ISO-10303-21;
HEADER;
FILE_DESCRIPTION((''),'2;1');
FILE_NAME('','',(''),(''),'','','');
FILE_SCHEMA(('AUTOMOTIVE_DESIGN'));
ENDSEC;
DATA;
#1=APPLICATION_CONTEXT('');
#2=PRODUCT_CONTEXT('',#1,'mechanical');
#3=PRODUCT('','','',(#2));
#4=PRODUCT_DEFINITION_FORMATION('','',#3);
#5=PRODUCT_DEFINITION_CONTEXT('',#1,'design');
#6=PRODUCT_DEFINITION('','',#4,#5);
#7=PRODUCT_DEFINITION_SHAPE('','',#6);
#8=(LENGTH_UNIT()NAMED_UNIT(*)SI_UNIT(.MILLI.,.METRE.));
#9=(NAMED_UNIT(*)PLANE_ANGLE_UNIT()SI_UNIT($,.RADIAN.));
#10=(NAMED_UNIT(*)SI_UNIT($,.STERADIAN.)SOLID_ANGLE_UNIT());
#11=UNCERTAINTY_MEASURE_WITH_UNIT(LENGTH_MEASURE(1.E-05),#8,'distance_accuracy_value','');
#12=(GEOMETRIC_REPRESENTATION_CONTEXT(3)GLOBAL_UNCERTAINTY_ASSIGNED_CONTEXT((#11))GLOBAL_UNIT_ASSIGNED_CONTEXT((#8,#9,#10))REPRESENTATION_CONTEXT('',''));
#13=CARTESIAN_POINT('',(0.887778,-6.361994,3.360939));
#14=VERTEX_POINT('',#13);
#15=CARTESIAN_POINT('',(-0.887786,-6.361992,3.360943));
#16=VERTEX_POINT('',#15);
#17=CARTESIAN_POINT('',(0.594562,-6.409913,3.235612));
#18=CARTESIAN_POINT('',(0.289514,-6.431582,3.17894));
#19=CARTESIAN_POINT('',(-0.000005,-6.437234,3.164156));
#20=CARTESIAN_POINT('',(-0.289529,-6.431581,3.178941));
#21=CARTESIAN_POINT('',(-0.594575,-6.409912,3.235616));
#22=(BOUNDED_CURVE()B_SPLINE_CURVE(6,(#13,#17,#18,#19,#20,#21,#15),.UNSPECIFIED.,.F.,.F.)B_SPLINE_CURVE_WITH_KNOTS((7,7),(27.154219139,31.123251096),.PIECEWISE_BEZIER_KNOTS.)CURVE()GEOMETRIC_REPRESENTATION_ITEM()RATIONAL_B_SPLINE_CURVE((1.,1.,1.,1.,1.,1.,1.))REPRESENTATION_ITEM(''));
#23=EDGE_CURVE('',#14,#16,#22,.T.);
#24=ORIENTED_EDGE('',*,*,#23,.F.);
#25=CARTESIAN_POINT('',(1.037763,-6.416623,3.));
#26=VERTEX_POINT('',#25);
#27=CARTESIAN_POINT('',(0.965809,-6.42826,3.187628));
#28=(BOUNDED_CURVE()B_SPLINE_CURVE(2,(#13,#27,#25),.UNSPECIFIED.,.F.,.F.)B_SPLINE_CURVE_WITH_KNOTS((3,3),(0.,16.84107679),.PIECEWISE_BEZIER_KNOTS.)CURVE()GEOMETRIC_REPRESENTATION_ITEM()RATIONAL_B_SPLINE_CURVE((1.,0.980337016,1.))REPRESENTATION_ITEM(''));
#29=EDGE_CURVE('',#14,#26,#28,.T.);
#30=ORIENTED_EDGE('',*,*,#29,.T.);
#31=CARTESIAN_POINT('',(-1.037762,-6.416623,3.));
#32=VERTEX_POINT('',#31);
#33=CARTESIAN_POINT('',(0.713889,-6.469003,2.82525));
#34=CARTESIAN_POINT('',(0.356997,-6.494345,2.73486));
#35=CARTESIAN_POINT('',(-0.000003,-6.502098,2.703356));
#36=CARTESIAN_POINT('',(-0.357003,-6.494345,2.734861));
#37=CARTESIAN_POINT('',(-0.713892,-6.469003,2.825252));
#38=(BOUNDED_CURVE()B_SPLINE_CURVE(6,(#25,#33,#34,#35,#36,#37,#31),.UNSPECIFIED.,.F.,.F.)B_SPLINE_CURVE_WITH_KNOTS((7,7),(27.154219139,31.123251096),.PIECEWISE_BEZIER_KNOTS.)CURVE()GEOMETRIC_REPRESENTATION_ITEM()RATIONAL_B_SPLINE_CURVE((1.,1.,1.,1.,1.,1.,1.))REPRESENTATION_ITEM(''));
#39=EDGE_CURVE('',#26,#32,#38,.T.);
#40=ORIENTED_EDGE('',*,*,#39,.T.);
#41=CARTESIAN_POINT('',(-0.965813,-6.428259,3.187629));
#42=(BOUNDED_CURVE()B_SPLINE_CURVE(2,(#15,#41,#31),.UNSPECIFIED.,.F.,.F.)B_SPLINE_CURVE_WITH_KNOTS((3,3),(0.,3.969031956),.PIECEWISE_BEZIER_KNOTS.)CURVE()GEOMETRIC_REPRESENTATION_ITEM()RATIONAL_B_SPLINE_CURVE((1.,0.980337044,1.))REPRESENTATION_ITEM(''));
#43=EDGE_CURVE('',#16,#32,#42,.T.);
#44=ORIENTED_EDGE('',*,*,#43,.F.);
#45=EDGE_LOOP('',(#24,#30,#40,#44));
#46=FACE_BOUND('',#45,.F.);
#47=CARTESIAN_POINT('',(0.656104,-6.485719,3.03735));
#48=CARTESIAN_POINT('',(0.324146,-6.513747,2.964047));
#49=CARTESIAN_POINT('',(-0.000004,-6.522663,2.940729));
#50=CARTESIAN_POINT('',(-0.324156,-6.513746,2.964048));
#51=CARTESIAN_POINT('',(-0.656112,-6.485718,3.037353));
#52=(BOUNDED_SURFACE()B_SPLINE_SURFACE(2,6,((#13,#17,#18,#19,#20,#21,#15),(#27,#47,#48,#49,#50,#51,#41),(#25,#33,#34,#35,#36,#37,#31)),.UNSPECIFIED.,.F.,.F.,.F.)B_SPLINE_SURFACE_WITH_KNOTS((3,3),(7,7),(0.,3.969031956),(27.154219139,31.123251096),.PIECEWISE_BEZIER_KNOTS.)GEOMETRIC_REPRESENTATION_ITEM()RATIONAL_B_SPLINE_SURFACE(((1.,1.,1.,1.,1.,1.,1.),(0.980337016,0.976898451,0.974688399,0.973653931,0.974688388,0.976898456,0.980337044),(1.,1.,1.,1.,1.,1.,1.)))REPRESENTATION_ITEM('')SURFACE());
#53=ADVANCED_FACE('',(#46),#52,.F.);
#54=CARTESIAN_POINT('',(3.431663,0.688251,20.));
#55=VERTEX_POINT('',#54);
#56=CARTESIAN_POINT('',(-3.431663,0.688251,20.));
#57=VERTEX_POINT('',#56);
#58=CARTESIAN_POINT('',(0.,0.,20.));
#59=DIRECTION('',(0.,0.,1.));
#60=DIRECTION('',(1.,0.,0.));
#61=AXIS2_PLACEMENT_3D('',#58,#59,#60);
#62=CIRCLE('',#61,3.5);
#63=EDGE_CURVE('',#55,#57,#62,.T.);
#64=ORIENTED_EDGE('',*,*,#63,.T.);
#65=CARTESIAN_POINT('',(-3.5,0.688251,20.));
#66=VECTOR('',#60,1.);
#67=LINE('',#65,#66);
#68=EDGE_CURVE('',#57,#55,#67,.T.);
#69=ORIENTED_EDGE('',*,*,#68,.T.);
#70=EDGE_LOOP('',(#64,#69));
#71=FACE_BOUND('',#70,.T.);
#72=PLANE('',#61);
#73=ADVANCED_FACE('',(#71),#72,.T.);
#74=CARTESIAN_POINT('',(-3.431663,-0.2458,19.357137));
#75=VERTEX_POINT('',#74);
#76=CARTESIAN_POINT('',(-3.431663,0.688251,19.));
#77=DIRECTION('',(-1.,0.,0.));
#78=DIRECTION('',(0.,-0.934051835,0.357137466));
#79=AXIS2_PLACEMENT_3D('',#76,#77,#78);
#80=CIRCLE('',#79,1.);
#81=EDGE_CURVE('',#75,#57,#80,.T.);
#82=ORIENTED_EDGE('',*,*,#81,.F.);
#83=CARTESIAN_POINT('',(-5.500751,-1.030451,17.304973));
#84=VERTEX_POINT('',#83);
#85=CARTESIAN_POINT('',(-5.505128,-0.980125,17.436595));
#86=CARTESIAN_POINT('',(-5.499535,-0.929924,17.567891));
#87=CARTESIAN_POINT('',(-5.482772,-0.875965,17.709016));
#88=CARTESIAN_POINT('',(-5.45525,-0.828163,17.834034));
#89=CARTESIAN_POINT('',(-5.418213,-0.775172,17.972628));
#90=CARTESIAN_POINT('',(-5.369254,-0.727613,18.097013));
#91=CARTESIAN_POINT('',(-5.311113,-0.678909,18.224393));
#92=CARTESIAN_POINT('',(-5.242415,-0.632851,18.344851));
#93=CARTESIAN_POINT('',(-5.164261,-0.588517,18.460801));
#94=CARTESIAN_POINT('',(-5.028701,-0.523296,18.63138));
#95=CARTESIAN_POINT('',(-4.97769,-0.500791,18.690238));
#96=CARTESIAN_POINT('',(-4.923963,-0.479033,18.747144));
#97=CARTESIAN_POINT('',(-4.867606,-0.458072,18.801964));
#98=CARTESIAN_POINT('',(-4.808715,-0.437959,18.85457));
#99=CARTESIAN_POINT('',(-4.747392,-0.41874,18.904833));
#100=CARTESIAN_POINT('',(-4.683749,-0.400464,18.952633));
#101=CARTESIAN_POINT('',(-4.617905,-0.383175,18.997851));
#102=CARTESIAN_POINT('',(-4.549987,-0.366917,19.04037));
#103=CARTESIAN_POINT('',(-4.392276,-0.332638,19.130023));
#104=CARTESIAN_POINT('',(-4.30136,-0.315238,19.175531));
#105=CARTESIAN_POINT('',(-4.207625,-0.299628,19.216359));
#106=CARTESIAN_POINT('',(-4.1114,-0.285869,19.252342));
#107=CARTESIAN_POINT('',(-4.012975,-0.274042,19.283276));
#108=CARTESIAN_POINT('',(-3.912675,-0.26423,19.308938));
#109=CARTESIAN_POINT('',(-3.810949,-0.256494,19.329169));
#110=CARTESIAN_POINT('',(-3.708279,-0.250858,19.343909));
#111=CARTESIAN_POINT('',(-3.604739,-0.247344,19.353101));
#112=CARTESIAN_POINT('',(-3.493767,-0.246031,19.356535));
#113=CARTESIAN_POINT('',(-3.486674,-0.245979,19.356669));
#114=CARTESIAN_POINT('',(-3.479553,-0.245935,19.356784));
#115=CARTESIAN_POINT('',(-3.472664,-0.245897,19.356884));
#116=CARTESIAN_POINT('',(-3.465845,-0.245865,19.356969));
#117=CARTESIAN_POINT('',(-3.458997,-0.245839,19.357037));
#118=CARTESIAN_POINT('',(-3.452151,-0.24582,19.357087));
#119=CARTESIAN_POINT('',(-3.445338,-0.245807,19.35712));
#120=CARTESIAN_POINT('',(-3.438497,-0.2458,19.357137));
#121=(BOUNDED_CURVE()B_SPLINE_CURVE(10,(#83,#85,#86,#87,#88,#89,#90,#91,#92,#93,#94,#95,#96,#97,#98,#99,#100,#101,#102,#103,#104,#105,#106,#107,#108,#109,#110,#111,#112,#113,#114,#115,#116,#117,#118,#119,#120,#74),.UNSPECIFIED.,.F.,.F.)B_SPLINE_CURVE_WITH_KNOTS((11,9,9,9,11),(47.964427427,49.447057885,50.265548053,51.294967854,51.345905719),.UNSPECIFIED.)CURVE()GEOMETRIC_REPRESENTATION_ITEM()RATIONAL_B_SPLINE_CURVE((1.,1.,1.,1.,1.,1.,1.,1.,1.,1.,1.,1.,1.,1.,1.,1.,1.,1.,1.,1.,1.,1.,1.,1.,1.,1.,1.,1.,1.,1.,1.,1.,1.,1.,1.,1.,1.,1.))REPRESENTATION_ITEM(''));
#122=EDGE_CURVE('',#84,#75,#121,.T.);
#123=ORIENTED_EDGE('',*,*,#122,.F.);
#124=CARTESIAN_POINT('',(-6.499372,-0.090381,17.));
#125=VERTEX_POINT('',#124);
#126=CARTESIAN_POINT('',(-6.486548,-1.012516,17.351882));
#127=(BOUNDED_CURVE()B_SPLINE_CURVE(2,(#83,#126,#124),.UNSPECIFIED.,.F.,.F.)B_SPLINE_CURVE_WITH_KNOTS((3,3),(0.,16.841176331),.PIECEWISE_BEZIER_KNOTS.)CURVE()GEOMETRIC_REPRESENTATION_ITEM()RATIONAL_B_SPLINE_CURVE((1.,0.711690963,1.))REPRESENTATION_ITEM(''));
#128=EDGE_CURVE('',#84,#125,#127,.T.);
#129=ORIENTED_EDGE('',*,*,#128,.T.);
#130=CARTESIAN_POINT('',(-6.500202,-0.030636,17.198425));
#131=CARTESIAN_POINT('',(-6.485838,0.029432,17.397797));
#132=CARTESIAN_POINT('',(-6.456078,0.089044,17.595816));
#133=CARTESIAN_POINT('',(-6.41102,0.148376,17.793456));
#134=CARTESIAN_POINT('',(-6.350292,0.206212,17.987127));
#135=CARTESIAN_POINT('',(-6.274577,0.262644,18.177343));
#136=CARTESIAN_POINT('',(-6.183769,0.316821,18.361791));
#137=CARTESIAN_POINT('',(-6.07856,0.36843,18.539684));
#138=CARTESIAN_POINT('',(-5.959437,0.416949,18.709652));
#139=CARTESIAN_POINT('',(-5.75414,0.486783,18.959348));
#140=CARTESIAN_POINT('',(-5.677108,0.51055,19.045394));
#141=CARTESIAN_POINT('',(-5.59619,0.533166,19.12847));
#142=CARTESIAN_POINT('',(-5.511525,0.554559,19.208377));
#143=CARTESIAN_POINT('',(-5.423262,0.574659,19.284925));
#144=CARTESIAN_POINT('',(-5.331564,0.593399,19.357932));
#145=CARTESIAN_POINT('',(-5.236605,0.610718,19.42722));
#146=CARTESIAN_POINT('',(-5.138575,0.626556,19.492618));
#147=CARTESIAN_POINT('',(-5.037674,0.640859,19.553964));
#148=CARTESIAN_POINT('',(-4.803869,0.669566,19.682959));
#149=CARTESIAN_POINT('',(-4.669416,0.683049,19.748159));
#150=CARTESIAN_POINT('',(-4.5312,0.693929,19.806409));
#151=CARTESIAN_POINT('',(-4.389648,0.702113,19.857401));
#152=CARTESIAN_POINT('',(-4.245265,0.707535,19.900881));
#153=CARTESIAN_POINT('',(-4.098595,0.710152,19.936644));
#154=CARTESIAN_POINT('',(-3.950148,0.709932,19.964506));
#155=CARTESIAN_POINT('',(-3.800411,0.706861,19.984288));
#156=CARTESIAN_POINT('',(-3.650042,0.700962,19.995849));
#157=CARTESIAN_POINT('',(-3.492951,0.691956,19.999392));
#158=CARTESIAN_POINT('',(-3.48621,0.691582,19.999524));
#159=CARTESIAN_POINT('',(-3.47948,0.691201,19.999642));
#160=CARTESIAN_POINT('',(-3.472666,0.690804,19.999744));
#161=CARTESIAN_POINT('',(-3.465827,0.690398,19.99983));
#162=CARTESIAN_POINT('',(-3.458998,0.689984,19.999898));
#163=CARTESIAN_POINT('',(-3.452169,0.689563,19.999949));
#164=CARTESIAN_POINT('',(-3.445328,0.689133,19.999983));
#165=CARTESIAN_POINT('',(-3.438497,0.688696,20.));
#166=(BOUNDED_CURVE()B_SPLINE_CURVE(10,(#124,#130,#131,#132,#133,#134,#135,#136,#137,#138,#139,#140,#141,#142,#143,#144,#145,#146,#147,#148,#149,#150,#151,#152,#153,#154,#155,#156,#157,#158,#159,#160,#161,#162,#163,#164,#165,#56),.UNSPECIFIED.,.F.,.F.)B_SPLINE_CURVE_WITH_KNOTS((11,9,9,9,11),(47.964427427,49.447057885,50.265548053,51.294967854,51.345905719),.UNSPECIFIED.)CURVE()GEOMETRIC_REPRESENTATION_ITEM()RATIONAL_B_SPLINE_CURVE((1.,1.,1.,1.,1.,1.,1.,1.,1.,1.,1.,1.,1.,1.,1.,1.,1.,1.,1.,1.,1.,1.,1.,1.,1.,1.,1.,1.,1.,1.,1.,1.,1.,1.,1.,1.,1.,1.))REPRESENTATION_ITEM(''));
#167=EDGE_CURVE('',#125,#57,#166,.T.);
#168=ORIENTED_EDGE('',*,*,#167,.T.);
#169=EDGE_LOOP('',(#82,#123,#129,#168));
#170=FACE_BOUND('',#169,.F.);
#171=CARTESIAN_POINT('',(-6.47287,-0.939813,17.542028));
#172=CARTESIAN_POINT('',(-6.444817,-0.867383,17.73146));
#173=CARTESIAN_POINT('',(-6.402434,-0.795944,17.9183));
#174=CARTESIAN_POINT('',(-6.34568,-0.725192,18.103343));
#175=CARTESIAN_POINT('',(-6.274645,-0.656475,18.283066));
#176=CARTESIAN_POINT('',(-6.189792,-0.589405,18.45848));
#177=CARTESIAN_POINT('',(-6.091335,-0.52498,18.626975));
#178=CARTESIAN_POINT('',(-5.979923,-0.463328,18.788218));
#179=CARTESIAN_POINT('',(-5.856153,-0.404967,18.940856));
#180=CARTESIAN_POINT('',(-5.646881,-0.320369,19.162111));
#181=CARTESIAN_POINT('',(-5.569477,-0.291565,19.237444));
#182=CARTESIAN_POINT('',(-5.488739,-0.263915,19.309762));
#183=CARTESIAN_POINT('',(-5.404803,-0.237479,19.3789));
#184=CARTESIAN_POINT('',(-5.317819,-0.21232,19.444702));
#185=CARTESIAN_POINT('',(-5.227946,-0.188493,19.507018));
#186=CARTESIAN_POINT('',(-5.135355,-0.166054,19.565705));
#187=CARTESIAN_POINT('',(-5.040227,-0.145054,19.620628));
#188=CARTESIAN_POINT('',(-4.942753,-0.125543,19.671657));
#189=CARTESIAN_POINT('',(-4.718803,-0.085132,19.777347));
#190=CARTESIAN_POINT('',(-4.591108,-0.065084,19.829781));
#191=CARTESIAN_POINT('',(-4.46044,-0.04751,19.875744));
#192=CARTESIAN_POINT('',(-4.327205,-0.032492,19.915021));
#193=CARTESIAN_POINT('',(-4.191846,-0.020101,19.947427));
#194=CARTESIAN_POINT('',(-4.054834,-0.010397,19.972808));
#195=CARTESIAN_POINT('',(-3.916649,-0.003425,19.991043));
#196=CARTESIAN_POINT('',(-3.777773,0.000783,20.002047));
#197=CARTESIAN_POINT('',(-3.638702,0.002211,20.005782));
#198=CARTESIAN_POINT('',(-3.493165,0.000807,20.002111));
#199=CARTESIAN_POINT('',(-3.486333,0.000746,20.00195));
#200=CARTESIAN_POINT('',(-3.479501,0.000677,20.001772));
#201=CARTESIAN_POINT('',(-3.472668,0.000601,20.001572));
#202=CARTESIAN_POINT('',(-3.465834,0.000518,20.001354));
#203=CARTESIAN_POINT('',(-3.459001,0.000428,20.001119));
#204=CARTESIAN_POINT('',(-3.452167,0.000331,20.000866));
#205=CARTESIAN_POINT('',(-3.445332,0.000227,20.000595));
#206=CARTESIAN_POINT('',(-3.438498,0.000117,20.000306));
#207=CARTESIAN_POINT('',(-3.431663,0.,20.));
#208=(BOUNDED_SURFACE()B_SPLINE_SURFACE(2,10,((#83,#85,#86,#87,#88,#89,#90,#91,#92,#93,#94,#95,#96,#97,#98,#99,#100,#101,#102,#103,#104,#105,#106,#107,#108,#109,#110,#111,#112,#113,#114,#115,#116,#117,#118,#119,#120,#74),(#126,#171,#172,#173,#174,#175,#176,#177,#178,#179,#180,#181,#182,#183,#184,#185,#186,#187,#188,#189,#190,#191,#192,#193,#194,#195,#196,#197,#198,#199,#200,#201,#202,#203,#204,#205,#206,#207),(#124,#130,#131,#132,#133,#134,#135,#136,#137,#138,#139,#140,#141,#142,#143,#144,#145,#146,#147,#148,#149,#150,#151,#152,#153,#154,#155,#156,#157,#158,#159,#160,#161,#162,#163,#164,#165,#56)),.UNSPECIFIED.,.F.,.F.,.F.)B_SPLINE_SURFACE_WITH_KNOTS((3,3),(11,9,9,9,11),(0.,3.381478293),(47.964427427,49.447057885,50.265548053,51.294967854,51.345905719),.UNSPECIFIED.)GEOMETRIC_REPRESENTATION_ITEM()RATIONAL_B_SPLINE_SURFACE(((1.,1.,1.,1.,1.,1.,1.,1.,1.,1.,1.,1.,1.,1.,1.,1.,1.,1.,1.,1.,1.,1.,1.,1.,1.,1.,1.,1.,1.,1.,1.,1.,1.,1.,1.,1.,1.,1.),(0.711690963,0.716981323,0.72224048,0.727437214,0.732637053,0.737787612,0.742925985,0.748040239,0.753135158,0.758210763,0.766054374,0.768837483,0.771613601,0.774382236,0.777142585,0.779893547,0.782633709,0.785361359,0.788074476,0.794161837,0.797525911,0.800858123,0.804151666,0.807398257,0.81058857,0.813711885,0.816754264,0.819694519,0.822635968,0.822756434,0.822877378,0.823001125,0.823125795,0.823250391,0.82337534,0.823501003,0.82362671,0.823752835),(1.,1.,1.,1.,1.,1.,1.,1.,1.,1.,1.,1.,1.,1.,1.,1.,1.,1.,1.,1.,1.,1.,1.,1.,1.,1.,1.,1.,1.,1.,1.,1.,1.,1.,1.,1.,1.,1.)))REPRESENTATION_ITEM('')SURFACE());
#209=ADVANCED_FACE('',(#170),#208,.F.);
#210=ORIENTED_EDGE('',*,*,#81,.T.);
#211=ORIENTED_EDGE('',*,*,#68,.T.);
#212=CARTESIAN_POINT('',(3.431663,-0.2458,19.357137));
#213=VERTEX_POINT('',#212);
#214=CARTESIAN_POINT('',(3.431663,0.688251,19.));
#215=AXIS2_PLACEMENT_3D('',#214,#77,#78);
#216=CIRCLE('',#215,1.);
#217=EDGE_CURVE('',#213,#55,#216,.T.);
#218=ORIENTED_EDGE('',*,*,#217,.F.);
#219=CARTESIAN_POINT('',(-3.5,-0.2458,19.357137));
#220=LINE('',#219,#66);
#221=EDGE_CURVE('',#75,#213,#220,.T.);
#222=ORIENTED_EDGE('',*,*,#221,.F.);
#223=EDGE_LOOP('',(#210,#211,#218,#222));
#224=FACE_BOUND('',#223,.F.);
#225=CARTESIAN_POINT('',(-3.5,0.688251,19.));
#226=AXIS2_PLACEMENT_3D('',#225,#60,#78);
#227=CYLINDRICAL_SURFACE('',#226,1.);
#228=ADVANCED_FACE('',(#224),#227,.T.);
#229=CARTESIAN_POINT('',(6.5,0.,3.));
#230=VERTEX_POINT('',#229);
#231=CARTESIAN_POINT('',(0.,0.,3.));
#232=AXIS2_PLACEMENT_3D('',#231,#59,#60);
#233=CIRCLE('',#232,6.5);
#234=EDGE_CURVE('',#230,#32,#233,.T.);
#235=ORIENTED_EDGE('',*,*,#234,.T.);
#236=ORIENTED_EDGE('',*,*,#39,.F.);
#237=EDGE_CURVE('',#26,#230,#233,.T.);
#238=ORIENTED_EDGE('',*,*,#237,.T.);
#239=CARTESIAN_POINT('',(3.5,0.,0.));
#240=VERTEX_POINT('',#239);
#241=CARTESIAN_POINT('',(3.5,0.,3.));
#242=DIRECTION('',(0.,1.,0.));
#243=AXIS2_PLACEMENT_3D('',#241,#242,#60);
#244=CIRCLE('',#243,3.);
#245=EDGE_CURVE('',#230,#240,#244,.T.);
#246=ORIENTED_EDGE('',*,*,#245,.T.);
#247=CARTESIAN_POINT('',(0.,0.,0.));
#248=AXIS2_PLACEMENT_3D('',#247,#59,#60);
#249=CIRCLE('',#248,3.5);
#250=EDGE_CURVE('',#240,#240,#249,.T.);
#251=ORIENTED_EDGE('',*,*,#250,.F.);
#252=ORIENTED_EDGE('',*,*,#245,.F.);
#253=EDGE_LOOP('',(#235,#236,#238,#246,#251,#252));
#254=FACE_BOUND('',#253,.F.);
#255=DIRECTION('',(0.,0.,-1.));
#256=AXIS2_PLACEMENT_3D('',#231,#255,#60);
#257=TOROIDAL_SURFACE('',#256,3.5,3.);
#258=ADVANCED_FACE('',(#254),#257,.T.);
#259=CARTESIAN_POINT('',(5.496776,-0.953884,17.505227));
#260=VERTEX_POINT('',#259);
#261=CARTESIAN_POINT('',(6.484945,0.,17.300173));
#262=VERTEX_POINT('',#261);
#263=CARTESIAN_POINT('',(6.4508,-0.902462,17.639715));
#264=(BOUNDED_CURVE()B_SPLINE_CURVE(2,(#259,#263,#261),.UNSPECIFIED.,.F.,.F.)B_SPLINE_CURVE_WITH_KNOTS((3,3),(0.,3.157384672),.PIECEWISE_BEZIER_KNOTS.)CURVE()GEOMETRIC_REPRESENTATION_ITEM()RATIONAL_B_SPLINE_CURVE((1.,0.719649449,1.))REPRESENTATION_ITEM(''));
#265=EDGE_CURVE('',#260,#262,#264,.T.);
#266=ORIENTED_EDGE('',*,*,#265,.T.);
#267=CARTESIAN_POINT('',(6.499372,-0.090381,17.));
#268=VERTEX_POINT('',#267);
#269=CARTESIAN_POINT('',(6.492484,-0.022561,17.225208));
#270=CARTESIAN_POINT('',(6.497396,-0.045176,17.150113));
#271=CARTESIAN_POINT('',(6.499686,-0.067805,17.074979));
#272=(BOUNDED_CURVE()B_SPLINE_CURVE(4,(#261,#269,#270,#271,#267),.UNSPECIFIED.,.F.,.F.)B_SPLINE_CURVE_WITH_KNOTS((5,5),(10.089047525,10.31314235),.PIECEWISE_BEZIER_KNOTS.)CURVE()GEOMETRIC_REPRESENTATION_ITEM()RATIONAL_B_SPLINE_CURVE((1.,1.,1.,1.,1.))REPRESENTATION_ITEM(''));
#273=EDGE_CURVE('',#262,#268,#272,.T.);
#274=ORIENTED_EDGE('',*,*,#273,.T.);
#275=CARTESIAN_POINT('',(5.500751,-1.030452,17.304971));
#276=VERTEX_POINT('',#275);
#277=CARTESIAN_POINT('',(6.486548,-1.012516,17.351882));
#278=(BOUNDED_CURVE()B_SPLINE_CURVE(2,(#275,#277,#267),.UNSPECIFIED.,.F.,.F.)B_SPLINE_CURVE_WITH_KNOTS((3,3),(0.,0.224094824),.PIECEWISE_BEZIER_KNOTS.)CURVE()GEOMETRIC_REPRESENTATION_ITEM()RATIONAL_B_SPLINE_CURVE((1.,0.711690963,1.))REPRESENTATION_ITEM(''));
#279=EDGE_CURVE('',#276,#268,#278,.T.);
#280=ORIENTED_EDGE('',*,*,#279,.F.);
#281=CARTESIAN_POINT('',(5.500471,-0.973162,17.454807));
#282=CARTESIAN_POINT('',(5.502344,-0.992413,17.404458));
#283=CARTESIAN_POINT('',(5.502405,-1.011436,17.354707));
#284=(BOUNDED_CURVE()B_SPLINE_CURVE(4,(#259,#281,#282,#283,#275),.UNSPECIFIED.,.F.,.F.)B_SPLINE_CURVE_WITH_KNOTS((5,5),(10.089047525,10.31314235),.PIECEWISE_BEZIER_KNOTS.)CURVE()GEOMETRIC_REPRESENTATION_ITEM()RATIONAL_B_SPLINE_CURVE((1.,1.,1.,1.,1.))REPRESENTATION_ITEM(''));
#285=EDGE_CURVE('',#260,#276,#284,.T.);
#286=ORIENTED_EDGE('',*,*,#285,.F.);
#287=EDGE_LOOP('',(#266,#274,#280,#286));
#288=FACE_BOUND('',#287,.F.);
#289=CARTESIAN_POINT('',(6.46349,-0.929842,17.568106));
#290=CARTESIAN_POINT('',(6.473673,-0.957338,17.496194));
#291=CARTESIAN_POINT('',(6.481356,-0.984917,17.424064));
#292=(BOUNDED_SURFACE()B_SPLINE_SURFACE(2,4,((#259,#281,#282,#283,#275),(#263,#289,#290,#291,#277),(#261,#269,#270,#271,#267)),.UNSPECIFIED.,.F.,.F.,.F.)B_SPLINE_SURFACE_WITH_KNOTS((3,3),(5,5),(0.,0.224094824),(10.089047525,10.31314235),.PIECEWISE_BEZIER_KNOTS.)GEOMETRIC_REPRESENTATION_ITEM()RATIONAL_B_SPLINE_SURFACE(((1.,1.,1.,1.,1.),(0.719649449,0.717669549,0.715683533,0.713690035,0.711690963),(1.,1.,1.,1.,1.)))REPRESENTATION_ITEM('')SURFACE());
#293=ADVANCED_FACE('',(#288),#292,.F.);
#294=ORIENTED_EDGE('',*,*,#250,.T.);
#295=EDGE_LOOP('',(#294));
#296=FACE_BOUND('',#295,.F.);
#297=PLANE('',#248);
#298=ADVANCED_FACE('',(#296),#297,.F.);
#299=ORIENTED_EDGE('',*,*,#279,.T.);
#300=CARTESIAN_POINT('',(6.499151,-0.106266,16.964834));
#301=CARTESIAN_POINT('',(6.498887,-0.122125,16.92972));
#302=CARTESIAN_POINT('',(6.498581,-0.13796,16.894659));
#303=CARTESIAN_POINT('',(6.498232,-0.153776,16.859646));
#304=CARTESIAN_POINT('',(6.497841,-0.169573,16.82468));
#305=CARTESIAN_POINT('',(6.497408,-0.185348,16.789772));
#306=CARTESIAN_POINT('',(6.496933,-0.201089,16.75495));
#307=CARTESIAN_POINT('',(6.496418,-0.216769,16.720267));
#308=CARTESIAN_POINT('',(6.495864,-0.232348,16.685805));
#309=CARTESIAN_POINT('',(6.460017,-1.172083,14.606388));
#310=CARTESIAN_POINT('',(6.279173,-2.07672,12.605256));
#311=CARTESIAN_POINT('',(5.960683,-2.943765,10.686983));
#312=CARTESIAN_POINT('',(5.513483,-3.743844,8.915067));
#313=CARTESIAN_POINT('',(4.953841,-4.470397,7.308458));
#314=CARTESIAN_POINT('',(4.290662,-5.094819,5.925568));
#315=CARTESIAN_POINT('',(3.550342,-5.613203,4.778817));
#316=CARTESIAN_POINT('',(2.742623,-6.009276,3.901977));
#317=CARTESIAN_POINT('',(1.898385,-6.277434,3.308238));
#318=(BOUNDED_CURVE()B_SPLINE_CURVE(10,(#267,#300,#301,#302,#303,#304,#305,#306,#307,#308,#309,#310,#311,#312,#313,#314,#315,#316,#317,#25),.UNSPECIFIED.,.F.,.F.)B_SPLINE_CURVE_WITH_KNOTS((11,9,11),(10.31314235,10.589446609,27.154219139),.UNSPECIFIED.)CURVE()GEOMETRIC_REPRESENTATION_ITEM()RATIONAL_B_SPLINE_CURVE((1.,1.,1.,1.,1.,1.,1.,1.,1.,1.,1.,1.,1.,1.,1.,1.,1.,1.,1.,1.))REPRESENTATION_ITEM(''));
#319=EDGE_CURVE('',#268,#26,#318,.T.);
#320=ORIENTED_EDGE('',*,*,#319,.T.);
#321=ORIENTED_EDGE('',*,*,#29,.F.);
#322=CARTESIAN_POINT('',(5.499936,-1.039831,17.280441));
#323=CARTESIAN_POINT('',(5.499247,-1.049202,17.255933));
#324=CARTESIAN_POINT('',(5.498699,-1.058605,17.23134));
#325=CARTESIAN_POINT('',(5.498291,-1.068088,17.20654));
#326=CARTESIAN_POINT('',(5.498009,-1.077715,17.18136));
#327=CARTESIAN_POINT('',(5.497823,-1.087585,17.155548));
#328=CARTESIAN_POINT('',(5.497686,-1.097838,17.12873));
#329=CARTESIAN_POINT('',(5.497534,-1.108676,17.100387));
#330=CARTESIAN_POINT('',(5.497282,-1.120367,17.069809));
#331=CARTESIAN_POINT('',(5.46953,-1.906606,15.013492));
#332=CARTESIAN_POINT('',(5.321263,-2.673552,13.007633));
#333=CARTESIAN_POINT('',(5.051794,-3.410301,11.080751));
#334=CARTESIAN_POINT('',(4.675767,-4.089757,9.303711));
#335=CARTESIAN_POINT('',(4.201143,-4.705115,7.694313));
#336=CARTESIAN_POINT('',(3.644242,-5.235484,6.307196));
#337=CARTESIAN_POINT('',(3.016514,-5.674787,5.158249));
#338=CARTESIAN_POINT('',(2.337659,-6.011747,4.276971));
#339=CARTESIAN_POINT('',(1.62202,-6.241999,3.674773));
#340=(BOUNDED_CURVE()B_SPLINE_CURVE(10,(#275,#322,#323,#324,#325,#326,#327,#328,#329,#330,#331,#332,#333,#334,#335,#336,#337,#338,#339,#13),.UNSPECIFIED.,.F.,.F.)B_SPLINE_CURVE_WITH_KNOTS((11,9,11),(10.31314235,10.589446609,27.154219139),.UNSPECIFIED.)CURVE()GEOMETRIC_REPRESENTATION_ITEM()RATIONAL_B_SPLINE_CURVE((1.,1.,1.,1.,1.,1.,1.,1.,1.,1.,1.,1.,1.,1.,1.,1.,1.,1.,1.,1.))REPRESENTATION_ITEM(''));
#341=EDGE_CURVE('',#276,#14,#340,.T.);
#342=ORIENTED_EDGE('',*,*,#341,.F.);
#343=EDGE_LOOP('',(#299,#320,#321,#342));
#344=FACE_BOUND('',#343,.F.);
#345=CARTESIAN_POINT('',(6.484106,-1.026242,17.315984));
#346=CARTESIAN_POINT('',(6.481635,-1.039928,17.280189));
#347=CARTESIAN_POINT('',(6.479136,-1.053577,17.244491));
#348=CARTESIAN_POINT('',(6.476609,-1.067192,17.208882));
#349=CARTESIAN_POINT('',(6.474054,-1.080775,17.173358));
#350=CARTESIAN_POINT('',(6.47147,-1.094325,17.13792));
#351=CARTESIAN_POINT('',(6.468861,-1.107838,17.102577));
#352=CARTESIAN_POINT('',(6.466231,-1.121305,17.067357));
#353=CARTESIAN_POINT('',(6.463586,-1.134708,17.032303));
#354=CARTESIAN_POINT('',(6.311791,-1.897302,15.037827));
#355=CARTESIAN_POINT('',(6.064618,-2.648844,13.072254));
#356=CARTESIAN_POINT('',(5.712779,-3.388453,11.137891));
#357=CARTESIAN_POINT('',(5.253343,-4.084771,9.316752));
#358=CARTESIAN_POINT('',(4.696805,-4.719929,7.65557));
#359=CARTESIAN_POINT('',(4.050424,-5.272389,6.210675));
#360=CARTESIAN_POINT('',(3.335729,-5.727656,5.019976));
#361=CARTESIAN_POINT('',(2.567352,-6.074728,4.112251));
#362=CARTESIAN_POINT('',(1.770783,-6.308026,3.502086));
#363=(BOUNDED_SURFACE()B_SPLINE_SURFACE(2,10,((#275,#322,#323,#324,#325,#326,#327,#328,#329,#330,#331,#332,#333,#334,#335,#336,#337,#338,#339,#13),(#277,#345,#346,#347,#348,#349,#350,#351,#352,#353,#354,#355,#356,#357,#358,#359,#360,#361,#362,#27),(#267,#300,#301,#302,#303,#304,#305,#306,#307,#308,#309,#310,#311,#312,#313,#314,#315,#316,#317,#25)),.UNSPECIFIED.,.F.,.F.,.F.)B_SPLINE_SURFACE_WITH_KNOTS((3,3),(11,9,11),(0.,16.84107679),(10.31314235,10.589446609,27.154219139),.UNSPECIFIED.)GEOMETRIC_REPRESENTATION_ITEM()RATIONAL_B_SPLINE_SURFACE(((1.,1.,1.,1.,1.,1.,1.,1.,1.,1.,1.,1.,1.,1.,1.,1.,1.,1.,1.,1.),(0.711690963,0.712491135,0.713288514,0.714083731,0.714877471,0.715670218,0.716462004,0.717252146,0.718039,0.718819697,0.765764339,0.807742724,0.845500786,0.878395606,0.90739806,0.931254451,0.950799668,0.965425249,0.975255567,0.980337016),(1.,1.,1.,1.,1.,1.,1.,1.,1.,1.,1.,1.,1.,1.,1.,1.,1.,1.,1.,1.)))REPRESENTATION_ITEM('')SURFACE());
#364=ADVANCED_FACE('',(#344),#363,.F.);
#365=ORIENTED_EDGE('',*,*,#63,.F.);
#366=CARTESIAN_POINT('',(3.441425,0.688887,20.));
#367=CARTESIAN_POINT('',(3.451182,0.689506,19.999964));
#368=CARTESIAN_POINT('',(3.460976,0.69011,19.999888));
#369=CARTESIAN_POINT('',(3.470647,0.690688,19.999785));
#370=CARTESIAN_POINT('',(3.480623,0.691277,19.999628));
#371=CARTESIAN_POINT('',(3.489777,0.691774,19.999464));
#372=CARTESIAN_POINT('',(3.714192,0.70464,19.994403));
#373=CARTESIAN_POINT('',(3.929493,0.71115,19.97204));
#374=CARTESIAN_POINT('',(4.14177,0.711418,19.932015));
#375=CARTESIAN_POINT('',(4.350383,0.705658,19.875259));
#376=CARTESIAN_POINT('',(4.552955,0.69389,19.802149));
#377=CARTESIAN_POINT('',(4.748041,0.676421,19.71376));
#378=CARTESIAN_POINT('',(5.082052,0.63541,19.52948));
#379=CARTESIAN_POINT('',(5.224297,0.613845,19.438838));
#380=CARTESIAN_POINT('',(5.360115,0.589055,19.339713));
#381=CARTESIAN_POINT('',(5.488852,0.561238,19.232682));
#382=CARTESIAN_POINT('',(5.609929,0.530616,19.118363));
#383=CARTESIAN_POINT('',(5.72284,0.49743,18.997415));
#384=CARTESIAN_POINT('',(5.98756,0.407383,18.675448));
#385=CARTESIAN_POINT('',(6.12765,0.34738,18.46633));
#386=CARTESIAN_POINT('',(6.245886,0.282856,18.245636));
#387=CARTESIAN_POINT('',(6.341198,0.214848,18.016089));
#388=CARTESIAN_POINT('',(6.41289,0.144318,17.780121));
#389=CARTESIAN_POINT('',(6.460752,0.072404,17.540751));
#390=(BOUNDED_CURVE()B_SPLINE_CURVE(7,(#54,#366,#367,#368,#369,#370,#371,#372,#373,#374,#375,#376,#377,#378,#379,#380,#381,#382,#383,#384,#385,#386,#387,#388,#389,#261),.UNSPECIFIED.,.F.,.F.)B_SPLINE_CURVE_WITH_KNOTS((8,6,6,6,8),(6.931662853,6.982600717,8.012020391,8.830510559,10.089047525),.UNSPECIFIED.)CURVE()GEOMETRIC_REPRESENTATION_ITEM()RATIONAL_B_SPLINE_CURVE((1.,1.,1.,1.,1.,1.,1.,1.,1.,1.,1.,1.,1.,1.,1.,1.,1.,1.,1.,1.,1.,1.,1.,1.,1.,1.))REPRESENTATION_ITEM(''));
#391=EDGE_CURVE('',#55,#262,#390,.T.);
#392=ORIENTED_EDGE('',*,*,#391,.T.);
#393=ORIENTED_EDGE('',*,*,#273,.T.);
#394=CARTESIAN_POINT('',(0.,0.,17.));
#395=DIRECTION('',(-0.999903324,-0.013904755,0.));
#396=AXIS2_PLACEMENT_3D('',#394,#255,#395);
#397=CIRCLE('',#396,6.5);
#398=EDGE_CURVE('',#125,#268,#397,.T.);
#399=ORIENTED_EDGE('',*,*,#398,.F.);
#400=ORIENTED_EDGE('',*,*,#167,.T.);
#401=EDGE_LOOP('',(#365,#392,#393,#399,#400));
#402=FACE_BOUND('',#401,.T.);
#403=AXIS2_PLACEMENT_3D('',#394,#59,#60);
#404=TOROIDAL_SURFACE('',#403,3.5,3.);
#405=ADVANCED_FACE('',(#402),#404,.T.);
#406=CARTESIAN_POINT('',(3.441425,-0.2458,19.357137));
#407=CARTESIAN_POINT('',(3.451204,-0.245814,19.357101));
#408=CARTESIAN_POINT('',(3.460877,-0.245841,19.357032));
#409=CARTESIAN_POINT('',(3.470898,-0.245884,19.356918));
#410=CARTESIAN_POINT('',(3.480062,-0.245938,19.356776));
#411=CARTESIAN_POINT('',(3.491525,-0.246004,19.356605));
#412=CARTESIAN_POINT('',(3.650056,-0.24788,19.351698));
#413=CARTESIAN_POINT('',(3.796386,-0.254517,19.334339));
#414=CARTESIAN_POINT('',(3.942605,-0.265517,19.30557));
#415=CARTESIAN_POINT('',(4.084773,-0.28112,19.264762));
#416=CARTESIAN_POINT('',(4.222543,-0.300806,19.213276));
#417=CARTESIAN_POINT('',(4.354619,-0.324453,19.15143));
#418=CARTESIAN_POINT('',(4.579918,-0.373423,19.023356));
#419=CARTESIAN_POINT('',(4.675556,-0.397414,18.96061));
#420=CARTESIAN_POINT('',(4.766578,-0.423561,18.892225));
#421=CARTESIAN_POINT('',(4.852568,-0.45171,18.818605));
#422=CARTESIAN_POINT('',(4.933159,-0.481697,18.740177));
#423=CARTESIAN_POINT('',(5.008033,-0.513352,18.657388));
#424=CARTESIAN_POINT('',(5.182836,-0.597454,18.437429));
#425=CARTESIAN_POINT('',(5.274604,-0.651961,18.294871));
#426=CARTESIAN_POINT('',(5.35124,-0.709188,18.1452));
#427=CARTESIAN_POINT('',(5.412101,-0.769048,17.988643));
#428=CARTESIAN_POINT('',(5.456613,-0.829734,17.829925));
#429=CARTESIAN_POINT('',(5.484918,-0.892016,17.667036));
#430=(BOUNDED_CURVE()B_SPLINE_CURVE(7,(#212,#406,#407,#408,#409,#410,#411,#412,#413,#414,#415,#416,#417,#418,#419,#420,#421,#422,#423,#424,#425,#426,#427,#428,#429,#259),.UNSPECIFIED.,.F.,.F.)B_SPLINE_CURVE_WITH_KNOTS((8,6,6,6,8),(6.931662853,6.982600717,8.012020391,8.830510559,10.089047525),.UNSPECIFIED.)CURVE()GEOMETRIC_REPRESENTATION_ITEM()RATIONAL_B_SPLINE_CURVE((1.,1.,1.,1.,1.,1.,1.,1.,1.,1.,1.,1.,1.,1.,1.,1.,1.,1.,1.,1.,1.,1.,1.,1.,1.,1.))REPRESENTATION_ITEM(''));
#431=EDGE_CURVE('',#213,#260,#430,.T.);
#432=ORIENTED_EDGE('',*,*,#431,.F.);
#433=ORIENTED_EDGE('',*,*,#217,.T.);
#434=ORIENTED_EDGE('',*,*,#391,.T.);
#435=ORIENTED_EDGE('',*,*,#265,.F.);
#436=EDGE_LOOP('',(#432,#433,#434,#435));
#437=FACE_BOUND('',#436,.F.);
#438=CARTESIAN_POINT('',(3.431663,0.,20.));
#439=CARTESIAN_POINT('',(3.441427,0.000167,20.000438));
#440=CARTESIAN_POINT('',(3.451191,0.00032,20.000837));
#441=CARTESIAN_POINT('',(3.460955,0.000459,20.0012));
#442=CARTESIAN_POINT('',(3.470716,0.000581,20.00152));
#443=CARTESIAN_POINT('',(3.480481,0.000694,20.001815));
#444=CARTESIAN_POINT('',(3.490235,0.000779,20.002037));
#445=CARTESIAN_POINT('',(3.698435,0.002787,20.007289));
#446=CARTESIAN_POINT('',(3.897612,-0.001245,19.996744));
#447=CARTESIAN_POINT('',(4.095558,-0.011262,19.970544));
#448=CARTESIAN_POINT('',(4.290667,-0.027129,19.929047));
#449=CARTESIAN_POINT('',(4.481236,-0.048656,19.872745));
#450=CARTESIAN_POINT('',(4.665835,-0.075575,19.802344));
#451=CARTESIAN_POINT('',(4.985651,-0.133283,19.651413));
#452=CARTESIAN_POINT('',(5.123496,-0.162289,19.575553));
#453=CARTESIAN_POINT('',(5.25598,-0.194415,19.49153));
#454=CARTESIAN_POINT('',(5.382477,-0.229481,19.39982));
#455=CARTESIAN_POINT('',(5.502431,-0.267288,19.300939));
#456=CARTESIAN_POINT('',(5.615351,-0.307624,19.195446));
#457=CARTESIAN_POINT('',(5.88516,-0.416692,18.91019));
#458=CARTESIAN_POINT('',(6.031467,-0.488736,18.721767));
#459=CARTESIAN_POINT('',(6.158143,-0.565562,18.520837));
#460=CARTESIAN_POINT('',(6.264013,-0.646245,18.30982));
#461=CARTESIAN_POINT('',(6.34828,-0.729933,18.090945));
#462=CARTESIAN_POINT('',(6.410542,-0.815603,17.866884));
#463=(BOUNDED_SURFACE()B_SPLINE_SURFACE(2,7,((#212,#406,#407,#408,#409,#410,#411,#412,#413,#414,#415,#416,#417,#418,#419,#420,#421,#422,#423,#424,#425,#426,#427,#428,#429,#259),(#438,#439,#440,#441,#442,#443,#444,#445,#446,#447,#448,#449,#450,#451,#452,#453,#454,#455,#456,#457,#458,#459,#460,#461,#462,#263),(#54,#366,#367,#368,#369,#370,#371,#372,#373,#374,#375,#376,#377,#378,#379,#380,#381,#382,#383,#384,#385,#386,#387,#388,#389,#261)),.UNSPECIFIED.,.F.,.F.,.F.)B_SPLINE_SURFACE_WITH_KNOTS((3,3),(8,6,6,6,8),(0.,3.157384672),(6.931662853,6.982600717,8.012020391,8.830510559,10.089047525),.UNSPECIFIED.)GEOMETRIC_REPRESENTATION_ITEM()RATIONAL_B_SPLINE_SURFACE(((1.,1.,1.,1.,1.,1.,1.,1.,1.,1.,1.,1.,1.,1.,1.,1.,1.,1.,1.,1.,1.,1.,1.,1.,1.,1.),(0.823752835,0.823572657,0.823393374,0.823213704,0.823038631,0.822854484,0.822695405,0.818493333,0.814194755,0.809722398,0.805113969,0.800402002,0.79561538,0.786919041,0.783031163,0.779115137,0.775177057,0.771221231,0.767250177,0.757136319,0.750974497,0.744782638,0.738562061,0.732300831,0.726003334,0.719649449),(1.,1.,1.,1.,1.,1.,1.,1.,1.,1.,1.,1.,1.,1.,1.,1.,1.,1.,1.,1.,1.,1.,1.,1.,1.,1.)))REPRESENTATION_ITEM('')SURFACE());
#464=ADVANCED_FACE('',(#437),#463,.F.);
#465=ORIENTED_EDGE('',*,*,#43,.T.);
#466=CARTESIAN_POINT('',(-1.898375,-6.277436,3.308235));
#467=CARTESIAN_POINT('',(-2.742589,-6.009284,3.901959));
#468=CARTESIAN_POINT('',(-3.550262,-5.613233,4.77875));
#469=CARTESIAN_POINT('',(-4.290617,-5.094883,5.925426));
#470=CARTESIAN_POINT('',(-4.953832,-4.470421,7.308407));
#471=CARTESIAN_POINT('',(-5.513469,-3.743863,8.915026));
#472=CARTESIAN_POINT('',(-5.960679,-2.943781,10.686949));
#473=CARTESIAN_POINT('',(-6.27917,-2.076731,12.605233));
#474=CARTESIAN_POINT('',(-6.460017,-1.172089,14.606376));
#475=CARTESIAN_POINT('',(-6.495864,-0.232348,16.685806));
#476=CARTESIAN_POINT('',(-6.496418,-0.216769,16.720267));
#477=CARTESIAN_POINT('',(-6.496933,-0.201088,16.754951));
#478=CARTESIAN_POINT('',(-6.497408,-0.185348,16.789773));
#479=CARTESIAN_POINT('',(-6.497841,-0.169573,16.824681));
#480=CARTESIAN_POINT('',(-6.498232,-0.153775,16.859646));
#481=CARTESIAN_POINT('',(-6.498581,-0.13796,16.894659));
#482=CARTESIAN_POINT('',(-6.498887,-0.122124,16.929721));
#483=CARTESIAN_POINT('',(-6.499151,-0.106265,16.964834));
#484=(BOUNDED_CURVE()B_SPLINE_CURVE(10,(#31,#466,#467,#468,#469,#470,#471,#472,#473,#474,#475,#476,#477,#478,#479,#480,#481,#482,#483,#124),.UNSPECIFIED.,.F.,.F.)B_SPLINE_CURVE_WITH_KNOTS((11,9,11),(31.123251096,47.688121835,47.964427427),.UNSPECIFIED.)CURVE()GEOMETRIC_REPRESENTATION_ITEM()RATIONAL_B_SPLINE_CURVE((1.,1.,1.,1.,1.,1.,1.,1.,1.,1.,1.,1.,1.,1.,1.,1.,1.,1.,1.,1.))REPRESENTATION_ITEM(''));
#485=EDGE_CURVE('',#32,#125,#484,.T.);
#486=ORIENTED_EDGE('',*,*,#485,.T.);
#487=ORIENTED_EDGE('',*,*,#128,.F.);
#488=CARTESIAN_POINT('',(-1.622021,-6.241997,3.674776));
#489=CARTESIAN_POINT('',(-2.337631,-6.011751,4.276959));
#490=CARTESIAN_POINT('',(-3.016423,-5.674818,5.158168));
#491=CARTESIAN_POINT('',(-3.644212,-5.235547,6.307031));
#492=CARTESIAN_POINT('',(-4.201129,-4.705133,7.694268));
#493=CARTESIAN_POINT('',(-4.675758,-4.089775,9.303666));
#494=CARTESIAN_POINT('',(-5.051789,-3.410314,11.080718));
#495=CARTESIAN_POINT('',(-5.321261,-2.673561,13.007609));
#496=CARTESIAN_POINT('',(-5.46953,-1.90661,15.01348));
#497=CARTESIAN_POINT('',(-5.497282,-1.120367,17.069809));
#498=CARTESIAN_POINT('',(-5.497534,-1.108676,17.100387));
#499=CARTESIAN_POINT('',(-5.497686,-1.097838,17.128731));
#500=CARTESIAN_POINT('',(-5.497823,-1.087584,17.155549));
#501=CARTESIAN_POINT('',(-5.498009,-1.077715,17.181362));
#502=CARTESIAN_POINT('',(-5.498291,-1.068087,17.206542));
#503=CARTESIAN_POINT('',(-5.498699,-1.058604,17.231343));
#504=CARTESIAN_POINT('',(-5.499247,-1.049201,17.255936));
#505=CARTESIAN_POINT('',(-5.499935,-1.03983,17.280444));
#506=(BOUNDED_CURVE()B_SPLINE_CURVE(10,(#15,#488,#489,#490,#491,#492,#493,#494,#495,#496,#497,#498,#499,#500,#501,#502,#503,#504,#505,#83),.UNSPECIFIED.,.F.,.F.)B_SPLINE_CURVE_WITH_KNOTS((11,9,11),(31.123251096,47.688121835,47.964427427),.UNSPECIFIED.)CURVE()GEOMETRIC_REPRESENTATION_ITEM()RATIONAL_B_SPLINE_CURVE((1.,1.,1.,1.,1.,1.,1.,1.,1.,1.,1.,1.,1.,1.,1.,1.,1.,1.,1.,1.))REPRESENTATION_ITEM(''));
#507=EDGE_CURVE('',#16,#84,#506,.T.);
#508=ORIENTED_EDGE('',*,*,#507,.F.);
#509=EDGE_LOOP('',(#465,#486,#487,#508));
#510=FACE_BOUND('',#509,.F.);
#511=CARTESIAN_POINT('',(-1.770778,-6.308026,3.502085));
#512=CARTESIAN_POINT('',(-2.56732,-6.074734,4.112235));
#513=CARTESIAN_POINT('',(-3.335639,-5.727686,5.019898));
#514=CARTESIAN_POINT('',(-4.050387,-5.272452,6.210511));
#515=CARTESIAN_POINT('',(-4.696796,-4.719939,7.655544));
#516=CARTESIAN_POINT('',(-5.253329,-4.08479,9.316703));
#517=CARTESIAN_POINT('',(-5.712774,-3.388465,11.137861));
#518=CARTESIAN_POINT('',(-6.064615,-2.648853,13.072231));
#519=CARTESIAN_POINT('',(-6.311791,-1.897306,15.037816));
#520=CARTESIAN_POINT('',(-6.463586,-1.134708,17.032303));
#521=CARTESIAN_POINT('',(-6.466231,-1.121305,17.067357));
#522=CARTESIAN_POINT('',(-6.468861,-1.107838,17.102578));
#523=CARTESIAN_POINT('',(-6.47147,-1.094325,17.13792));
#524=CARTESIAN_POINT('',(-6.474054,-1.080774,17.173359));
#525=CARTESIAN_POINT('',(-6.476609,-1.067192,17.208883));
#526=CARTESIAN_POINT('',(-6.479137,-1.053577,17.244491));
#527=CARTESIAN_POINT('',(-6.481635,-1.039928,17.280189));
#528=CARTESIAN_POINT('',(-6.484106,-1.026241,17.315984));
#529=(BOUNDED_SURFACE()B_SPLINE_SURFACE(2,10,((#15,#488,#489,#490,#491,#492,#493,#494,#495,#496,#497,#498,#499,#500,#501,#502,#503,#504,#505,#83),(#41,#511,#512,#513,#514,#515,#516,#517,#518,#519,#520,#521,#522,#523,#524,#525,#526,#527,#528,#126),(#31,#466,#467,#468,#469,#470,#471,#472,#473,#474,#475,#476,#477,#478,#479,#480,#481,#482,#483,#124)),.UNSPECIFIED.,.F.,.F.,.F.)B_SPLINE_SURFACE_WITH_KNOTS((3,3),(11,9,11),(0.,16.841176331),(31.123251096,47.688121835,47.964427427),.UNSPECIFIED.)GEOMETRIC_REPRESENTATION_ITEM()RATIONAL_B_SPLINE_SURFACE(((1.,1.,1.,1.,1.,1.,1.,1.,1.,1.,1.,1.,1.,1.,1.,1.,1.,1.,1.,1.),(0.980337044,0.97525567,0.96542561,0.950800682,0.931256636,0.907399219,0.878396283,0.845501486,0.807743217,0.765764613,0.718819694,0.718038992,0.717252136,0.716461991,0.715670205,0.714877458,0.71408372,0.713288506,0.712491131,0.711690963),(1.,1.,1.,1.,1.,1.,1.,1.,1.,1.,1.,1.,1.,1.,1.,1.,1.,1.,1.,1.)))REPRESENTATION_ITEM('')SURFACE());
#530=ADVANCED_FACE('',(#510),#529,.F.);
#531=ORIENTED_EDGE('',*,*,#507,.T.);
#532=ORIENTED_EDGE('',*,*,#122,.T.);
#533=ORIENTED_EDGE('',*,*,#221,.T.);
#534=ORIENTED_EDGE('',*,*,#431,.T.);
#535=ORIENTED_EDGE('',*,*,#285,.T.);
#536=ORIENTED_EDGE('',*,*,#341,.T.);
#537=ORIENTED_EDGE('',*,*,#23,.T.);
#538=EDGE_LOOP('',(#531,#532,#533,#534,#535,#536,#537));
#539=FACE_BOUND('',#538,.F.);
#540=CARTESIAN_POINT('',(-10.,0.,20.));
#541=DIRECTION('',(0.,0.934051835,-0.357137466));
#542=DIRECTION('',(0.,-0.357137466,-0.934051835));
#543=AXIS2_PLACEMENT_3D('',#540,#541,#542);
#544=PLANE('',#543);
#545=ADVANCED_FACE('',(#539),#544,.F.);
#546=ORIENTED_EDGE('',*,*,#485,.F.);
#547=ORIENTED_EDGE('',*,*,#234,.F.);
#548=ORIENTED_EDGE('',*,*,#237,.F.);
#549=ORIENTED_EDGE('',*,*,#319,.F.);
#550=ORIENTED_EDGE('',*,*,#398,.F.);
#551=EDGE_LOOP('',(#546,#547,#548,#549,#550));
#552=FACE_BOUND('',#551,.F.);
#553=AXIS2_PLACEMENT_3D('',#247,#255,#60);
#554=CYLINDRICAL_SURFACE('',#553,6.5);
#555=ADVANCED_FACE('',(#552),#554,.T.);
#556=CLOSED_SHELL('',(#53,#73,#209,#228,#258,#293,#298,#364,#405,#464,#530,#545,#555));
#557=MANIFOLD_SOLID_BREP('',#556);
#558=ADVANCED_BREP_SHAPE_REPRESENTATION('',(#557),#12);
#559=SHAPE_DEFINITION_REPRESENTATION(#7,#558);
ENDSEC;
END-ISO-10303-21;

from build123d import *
from build123d.topology import SkipClean

# Parameters (mm, degrees)
SKETCH2_R               = 6.5
BOSS_EXTRUDE1_DEPTH     = 20
FILLET1_R               = 3
CUT_EXTRUDE1_DEPTH      = 10
CUT_EXTRUDE1_DEPTH_BACK = 10
FILLET2_R               = 1


with BuildPart() as part:
    # Sketch2 → Boss-Extrude1 (new body)
    with BuildSketch(Plane.XY):
        Circle(SKETCH2_R)
    extrude(amount=BOSS_EXTRUDE1_DEPTH)

    # Fillet1
    fillet1_edges = [part.edges().sort_by_distance(p)[0] for p in [
        (-6.5, 0, 0),
        (-6.5, 0, 20),
    ]]
    fillet(fillet1_edges, radius=FILLET1_R)

    # Sketch3 → Cut-Extrude1 (cut, two sides: drawn at the far end of the back side and taken through both)
    with SkipClean():  # the faces are left unmerged after this step: merging them gives an invalid solid
        with BuildSketch(Plane(origin=(0, 0, 0), x_dir=(0, 0, -1), z_dir=(1, 0, 0)).offset(-CUT_EXTRUDE1_DEPTH_BACK)):
            Polygon((-20, 0), (-3, -6.5), (-3, -10.4048104), (-20, -10.4048104), align=None)
        extrude(amount=CUT_EXTRUDE1_DEPTH + CUT_EXTRUDE1_DEPTH_BACK, mode=Mode.SUBTRACT)

    # Fillet2
    fillet2_edges = [part.edges().sort_by_distance(p)[0] for p in [
        (0, 0, 20),
        (-4.972878247, -4.185747477, 9.052660443),
        (-5.641505316, -0.347957265, 19.089957921),
        (5.641505344, -0.347957277, 19.089957892),
        (4.972878246, -4.185747478, 9.052660442),
    ]]
    fillet(fillet2_edges, radius=FILLET2_R)


solid = part.part
